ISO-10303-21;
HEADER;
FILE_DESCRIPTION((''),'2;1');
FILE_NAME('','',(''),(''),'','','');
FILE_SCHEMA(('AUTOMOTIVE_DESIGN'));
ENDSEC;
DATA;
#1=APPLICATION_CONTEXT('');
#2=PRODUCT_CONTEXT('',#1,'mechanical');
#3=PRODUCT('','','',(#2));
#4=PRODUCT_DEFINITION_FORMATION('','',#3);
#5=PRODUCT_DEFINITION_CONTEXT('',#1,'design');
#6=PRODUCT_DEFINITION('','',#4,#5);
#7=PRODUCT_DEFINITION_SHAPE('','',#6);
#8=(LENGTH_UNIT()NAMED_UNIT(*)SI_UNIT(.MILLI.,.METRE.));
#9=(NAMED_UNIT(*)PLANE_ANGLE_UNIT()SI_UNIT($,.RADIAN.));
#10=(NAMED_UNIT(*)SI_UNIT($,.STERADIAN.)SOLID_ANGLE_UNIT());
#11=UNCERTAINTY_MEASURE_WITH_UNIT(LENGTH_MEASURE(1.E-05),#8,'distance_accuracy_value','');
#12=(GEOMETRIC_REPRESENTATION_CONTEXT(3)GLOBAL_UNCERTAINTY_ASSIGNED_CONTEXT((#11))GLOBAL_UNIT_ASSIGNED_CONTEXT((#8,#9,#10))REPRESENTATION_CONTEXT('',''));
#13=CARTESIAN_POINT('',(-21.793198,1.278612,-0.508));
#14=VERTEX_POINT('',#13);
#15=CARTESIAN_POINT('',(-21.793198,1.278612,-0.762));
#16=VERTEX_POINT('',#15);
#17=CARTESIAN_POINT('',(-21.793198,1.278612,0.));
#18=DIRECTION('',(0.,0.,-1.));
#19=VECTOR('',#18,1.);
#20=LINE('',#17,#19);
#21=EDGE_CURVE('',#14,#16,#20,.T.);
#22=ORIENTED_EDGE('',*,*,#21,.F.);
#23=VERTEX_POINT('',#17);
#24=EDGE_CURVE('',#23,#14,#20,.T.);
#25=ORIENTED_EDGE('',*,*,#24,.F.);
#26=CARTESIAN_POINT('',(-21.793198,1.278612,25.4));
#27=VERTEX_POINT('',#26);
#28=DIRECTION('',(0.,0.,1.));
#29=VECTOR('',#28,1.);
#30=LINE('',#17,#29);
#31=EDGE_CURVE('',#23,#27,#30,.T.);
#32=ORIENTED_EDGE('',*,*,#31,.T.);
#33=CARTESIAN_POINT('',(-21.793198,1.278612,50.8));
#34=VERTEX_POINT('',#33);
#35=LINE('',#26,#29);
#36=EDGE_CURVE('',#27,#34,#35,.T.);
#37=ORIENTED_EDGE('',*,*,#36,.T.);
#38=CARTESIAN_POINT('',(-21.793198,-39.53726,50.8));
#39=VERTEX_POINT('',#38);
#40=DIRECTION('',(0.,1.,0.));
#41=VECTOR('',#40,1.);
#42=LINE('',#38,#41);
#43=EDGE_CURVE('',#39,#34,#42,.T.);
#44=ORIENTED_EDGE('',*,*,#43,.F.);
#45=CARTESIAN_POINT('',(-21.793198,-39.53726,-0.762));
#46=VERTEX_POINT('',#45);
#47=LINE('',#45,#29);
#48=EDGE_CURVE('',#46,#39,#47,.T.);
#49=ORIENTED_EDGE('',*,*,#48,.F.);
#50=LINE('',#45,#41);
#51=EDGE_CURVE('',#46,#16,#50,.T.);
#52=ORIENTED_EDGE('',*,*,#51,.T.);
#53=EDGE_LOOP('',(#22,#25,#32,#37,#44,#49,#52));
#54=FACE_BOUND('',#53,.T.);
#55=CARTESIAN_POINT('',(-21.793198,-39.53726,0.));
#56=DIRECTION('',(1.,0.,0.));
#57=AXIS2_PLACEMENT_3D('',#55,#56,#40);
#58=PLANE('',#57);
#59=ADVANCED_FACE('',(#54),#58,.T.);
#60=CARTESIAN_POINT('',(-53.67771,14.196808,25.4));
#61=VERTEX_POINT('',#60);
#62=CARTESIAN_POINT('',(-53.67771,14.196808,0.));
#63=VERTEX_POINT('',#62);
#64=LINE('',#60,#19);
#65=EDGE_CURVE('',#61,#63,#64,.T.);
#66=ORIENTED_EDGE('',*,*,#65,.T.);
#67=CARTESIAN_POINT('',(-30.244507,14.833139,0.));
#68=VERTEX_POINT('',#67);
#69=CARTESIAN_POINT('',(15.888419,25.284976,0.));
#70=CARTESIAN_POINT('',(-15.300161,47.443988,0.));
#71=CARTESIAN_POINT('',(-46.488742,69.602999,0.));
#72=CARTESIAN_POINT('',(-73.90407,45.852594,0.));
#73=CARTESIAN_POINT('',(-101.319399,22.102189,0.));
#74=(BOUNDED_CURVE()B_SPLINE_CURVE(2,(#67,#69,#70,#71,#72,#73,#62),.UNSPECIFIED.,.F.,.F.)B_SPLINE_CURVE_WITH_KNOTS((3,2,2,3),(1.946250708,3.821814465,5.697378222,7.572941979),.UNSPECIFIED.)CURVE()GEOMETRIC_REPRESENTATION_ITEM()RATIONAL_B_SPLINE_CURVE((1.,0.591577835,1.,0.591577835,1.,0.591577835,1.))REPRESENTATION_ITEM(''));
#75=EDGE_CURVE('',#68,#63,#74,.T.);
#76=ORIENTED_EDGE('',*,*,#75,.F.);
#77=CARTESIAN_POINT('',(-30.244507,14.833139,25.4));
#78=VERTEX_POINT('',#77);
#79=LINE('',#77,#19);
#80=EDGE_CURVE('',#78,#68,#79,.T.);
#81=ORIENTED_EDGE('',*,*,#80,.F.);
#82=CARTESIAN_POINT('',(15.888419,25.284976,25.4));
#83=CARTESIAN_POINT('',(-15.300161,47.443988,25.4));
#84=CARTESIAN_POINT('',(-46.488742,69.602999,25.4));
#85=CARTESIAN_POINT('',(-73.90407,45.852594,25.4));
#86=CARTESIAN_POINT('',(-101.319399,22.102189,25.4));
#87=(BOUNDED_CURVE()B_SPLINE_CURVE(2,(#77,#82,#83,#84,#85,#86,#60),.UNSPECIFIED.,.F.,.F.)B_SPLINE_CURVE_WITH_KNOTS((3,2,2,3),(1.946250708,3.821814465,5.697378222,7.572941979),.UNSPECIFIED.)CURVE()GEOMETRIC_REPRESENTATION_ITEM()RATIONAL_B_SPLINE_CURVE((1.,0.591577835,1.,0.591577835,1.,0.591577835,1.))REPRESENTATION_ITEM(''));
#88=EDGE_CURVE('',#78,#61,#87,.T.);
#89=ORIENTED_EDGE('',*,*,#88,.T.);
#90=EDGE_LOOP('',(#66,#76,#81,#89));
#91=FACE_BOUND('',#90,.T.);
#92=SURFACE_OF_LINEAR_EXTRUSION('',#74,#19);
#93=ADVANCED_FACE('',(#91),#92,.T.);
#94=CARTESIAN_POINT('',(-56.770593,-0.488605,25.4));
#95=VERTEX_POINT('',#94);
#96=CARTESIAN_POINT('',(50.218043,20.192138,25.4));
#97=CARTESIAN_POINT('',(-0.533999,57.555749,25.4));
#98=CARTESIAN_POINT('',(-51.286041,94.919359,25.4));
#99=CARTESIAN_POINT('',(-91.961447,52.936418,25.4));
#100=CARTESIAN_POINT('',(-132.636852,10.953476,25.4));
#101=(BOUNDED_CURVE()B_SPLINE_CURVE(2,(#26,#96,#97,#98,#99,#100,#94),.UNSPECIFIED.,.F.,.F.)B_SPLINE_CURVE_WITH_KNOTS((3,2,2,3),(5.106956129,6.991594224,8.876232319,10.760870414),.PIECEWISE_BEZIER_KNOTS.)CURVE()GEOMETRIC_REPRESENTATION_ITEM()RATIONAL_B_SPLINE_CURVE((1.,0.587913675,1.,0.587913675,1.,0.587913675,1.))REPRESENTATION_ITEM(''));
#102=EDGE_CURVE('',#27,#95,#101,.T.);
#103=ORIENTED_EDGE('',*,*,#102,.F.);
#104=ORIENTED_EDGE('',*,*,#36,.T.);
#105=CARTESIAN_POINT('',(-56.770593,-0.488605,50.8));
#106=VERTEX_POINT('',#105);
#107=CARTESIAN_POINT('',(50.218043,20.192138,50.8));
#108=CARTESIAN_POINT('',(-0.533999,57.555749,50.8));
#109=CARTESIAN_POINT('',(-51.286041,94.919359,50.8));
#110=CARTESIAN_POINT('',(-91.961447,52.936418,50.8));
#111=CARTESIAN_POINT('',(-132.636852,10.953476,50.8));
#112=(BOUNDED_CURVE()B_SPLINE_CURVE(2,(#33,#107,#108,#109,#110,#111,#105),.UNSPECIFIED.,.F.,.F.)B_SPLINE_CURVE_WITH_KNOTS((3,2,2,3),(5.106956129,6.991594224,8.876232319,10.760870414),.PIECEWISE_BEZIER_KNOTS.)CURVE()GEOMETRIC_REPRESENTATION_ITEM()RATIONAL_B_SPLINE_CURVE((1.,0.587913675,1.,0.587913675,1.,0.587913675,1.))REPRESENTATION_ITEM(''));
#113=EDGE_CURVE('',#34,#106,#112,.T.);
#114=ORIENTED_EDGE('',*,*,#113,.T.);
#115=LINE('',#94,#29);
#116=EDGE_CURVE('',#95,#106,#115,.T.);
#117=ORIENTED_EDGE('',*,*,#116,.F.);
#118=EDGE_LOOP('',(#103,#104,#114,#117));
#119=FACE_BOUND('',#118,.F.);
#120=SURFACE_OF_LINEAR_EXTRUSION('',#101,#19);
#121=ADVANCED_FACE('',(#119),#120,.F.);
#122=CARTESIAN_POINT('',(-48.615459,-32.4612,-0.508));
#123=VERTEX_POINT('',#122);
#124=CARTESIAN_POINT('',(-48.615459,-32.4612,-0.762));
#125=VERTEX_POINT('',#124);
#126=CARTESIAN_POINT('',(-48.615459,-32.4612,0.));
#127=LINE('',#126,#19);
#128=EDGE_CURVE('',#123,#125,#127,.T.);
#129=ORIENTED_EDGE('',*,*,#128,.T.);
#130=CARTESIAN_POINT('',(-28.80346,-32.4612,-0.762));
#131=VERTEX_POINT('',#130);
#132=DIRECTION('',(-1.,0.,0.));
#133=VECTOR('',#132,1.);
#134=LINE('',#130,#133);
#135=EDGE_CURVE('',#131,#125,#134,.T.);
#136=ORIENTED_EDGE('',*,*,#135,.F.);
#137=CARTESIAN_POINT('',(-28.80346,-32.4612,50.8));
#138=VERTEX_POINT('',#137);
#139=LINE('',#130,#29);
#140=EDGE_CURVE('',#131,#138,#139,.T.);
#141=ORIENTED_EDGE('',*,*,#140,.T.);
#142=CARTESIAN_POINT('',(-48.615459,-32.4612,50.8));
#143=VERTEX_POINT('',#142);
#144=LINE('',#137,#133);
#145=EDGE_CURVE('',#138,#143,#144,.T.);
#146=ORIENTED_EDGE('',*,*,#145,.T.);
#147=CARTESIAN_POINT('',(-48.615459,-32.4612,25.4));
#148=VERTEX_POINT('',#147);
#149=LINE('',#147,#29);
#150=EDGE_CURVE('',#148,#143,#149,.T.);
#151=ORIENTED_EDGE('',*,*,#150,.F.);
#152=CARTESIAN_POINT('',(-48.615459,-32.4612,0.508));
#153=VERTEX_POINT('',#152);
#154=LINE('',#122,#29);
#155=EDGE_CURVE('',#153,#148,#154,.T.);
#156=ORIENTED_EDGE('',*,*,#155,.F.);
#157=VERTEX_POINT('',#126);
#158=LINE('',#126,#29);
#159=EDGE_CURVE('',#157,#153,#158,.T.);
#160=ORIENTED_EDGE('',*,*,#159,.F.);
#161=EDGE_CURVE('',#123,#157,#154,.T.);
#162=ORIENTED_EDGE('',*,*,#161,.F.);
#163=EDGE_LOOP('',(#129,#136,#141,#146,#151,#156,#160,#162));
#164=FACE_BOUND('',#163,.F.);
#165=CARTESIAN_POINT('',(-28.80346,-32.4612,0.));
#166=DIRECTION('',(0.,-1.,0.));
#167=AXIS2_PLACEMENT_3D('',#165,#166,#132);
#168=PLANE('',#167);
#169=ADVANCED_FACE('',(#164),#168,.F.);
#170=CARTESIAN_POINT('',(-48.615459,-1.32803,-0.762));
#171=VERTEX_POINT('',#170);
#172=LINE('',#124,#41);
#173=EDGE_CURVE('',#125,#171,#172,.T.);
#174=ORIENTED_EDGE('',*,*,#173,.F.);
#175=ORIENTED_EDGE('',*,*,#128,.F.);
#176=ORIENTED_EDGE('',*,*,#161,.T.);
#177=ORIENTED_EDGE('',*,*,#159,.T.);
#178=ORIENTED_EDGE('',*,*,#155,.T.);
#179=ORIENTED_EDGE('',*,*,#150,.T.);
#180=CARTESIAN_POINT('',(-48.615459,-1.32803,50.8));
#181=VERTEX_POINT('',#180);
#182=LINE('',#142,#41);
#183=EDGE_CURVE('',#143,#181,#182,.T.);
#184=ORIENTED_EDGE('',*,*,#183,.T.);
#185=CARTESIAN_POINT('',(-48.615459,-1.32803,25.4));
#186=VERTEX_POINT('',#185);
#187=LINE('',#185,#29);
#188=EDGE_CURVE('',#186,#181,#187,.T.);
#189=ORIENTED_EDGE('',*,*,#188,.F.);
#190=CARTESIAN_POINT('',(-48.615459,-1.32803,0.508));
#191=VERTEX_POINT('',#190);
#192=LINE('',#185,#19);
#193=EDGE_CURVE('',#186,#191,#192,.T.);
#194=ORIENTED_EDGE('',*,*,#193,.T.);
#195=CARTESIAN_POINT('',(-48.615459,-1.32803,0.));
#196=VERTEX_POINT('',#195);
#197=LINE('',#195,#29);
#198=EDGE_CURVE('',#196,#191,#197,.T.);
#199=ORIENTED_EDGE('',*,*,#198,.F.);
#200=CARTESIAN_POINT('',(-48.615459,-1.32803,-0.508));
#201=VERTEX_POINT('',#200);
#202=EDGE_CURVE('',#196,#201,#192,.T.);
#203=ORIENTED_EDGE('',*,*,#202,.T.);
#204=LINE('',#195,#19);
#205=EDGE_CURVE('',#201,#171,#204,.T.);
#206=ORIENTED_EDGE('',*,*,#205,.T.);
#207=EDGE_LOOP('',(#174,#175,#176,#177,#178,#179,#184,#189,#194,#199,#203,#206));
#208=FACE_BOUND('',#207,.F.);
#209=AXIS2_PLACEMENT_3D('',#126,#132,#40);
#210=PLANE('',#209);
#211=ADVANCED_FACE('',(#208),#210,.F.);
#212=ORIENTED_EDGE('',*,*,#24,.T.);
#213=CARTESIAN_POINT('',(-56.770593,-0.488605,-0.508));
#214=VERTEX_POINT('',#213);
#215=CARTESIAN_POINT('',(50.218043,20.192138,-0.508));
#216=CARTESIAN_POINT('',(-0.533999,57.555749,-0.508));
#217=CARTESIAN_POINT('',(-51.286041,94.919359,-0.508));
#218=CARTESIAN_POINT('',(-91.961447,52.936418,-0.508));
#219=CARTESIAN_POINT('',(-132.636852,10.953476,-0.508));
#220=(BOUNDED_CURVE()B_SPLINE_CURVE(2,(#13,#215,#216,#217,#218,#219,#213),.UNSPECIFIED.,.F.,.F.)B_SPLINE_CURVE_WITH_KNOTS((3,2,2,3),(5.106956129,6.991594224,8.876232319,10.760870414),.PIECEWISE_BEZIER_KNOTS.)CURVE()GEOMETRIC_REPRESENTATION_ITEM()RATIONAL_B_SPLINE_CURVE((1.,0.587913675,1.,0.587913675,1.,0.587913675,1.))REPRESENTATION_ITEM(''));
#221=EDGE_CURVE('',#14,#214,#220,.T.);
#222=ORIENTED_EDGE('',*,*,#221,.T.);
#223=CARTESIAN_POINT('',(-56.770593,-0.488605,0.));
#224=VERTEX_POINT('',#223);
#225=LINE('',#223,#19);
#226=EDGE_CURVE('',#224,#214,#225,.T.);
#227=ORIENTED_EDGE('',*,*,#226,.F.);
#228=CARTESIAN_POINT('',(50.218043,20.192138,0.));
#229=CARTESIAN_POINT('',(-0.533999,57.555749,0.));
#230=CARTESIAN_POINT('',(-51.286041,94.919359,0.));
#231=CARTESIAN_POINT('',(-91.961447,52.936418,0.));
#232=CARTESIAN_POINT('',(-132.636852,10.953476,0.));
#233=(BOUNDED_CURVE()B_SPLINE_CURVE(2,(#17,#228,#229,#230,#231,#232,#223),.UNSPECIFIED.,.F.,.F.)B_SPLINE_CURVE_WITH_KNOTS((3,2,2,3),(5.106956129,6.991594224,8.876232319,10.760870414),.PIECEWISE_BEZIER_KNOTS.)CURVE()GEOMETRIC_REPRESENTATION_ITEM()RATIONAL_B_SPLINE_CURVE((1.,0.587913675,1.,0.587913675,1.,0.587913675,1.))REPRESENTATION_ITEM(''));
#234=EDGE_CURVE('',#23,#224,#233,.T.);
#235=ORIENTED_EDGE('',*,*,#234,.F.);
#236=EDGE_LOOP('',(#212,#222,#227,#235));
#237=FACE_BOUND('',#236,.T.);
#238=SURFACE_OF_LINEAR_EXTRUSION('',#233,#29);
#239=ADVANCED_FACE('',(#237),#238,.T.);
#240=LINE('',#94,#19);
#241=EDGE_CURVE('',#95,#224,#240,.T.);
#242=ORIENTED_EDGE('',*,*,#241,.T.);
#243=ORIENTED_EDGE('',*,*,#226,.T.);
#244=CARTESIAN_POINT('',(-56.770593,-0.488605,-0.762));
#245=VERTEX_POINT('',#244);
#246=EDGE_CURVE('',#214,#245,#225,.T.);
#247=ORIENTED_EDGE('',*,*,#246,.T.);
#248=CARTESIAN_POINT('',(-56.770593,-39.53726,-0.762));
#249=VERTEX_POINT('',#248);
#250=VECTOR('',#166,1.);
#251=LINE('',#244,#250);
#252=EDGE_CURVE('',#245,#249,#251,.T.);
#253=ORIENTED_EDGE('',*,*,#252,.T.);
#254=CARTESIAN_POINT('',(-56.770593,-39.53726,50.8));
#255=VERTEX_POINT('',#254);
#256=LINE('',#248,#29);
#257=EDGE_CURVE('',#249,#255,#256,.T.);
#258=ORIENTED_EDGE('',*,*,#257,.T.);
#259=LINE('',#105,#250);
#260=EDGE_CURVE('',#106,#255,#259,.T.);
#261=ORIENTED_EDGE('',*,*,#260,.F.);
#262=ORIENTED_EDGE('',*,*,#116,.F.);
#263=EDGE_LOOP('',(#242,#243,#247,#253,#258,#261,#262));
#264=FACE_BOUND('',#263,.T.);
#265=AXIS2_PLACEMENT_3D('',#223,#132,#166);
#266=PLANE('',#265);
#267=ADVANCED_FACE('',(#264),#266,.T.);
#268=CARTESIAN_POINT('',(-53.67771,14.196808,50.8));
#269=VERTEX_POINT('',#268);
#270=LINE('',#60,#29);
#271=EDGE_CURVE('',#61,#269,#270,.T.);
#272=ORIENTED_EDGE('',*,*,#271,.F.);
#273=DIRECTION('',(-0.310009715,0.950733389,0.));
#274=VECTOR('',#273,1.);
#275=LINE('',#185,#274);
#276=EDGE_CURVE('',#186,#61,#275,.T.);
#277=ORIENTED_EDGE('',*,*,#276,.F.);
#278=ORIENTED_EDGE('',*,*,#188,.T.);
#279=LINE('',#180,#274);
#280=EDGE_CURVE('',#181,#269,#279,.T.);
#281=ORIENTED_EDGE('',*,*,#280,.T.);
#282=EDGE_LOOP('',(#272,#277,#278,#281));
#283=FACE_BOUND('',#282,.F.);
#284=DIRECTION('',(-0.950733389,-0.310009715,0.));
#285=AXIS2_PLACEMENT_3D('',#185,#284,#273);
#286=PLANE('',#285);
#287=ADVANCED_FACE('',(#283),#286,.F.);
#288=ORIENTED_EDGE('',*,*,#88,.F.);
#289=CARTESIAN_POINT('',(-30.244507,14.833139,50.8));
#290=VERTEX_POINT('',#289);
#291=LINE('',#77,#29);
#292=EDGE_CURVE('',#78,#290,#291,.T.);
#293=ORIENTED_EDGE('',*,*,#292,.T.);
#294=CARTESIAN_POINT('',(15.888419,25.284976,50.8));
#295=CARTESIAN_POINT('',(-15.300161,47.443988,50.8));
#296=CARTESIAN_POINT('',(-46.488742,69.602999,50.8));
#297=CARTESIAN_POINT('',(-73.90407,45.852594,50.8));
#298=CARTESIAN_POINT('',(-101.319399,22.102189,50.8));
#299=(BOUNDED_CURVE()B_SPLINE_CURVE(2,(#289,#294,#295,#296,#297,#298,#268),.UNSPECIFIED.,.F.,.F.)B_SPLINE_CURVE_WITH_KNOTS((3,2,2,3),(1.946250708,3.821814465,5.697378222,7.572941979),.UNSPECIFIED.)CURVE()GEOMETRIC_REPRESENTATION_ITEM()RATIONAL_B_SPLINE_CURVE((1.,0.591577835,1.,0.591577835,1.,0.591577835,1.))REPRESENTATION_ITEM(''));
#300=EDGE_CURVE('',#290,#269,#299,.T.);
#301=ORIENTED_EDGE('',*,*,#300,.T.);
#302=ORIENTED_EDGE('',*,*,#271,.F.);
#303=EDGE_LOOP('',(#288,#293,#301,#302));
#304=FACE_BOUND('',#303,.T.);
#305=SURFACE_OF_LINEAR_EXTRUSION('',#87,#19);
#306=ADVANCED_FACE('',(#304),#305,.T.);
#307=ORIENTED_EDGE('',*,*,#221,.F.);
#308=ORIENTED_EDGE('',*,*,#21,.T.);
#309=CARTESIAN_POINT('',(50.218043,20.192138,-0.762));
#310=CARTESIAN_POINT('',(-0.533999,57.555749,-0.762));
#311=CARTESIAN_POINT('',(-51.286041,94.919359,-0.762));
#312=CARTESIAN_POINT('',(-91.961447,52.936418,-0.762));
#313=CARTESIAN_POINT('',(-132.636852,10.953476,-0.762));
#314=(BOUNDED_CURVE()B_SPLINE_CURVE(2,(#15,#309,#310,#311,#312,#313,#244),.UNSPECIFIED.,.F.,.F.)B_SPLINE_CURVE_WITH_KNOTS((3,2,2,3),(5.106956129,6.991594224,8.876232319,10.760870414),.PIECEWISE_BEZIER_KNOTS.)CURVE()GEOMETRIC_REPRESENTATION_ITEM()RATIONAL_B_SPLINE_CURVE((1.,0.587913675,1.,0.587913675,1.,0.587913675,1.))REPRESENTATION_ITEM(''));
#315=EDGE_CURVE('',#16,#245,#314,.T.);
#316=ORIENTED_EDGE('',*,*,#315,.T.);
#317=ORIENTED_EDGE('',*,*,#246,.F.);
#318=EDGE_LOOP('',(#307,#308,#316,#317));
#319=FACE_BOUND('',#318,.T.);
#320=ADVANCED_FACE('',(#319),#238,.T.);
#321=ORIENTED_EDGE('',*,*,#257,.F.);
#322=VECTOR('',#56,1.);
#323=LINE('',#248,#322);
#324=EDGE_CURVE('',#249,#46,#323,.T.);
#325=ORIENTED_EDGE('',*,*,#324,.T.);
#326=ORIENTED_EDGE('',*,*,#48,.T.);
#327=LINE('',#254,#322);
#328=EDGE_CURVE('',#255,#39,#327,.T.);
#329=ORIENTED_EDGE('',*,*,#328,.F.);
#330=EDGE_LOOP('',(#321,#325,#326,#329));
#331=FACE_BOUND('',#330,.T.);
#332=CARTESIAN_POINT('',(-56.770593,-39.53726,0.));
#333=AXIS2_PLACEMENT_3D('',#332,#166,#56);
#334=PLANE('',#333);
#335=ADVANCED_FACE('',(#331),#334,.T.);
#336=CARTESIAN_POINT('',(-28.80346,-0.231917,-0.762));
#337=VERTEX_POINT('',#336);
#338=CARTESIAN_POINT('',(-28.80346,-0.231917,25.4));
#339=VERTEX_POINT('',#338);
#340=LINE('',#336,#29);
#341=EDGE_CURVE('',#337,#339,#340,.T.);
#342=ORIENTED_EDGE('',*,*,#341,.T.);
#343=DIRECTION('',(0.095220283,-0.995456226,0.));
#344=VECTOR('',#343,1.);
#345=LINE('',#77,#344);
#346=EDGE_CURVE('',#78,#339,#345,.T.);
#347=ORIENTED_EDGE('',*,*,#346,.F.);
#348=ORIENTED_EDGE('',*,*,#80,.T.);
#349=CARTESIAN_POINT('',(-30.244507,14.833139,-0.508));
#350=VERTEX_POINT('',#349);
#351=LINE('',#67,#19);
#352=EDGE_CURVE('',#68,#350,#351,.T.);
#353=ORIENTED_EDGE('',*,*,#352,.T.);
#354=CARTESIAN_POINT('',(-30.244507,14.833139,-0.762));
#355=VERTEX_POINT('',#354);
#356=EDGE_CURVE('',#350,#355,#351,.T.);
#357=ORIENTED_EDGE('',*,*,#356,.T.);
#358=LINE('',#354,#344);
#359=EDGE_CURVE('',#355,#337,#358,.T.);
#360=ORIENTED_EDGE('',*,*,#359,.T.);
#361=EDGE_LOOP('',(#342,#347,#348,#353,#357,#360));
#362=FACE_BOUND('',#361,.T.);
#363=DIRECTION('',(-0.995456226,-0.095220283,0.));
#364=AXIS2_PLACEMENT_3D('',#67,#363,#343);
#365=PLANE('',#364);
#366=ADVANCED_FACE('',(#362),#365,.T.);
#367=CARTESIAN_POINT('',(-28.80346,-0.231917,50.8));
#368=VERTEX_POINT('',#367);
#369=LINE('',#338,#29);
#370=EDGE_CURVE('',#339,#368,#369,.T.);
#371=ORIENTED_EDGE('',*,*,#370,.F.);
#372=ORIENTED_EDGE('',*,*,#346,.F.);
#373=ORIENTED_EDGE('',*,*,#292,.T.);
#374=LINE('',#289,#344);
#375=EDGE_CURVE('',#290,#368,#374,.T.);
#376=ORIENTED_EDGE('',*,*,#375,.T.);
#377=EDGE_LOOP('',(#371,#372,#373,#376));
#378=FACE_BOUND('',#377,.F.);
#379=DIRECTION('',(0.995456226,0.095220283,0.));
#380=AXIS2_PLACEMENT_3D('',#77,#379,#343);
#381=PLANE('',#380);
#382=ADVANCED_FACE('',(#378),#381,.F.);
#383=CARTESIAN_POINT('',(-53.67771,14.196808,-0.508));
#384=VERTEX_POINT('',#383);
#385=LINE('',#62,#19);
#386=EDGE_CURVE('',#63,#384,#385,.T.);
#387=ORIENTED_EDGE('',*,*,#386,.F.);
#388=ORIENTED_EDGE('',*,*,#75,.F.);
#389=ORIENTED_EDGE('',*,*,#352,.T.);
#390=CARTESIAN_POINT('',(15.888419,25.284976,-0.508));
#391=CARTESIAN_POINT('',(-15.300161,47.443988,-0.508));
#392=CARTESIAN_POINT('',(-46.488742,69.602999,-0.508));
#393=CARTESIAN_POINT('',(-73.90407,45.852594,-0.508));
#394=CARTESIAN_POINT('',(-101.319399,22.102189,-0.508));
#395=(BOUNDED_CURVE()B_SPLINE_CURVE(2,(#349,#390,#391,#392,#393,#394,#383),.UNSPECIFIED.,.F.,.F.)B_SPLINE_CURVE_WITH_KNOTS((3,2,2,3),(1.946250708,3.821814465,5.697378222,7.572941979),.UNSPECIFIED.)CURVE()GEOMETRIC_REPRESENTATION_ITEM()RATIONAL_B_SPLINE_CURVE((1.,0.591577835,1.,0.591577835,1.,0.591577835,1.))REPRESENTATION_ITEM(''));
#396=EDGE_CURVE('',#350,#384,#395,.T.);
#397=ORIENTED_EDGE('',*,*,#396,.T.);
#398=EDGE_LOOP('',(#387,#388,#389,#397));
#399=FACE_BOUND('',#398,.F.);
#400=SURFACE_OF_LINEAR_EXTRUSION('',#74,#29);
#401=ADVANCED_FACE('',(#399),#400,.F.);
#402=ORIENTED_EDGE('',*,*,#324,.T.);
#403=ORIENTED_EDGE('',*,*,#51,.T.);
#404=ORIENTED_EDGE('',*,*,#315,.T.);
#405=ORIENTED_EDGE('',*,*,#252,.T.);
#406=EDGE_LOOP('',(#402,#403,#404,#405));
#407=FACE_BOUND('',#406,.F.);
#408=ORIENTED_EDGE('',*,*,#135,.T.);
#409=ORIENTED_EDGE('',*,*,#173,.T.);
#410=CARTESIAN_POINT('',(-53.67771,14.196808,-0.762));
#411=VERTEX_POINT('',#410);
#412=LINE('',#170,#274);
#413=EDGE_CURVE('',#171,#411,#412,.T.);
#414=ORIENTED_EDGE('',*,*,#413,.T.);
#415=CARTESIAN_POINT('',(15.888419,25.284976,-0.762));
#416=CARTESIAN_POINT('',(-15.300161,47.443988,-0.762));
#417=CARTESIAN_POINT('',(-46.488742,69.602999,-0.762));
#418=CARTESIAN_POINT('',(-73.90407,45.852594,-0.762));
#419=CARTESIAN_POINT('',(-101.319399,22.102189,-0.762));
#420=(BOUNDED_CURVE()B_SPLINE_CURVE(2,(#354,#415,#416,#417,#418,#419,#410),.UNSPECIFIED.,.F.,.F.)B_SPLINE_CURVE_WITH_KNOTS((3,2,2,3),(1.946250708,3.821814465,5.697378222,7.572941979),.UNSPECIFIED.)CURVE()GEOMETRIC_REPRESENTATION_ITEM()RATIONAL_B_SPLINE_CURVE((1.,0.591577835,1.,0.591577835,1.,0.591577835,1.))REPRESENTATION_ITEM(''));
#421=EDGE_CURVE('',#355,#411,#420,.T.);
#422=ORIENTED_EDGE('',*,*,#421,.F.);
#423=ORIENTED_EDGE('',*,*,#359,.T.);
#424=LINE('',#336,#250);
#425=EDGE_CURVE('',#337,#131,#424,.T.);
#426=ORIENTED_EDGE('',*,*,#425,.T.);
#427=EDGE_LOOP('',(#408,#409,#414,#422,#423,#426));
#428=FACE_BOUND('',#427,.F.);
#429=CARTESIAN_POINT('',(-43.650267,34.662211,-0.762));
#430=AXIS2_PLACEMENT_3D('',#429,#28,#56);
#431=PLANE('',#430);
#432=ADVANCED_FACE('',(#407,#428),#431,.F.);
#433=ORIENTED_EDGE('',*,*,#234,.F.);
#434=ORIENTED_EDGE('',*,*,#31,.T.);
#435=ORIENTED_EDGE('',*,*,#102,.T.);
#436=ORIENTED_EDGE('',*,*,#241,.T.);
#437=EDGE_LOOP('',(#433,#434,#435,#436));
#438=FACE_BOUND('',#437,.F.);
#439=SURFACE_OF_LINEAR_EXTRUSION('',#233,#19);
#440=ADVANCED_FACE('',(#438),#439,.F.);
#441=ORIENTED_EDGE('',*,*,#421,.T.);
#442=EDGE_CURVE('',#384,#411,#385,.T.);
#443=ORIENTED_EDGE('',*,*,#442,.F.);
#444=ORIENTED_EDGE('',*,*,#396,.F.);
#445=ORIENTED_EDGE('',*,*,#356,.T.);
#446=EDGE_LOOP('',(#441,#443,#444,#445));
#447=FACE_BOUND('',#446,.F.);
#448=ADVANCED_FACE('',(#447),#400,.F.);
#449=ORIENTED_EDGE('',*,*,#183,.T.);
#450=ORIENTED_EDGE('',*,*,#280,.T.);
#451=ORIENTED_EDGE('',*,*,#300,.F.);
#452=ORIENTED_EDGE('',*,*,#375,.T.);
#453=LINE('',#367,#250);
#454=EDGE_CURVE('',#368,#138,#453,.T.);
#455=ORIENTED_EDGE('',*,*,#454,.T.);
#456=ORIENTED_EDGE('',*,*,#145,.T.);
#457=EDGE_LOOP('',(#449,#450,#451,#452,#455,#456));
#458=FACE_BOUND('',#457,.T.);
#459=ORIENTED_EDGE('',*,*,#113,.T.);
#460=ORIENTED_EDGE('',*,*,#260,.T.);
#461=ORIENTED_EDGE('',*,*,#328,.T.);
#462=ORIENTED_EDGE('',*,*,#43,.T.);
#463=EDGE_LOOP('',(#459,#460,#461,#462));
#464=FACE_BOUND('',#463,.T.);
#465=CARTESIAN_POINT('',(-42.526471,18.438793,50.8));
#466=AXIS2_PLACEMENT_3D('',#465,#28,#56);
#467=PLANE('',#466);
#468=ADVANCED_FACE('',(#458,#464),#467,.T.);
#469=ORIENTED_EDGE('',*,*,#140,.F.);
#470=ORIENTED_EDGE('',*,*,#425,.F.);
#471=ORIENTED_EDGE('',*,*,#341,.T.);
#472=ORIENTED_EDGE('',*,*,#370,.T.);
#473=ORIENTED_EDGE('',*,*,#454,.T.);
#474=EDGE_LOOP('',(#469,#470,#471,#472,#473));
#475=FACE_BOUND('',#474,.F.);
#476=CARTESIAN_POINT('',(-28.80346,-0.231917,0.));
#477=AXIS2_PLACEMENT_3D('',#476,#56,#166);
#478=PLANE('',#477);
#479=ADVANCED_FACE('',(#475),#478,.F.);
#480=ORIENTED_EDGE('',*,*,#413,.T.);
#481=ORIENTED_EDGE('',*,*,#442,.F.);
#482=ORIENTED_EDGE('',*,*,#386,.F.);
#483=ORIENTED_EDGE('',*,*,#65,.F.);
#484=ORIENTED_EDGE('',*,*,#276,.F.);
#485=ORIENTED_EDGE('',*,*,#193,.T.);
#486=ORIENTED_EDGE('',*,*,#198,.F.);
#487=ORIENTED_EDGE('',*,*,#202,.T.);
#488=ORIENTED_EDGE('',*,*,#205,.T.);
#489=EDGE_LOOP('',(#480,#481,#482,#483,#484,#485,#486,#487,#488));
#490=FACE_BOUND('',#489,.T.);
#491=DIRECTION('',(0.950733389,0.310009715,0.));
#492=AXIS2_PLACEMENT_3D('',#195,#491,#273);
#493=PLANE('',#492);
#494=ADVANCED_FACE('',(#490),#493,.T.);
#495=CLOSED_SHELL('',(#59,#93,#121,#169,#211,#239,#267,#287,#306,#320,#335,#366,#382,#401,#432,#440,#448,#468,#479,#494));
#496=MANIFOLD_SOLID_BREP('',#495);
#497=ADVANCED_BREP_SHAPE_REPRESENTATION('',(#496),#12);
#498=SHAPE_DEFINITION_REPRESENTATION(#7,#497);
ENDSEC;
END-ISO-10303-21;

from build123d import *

# Parameters (mm, degrees)
F1_DEPTH = 25.4
F2_DEPTH = 25.4
F3_DEPTH = 25.4
F4_DEPTH = 25.4
F5_DEPTH = 0.508
F6_DEPTH = 0.508
F7_DEPTH = 0.762


with BuildPart() as f1:
    # F0 (on Top) → F1 (new body)
    with BuildSketch(Plane.XY):
        with BuildLine():
            Line((-30.2445069715, 14.8331388677), (-28.8034603, -0.2319170528))
            add(Edge.make_bspline(
                [(-28.8034603, -0.2319170528), (-25.2199291946, 0.378591868), (-21.7931978405, 1.2786120788)],
                knots=[4.9761933051, 4.9761933051, 4.9761933051, 5.1069561294, 5.1069561294, 5.1069561294], degree=2, weights=[1, 0.9978633968, 1]))
            add(Edge.make_bspline(
                [(-21.7931978405, 1.2786120788), (50.218043381, 20.1921380605), (-0.533998699, 57.555748767), (-51.286040779, 94.9193594735), (-91.961446539, 52.9364177725), (-132.6368522989, 10.9534760715), (-56.7705927415, -0.4886051868)],
                knots=[5.1069561294, 5.1069561294, 5.1069561294, 6.9915942242, 6.9915942242, 8.876232319, 8.876232319, 10.7608704138, 10.7608704138, 10.7608704138], degree=2, weights=[1, 0.5879136753, 1, 0.5879136753, 1, 0.5879136753, 1]))
            add(Edge.make_bspline(
                [(-56.7705927415, -0.4886051868), (-52.7416478226, -1.0962470479), (-48.6154593527, -1.3280297036)],
                knots=[4.4776851066, 4.4776851066, 4.4776851066, 4.6235650197, 4.6235650197, 4.6235650197], degree=2, weights=[1, 0.9973410605, 1]))
            Line((-48.6154593527, -1.3280297036), (-53.6777099396, 14.1968084661))
            add(Edge.make_bspline(
                [(-30.2445069715, 14.8331388677), (15.888419149, 25.2849758906), (-15.3001612609, 47.4439876299), (-46.4887416708, 69.6029993692), (-73.9040701092, 45.8525940461), (-101.3193985477, 22.102188723), (-53.6777099396, 14.1968084661)],
                knots=[1.9462507079, 1.9462507079, 1.9462507079, 3.821814465, 3.821814465, 5.697378222, 5.697378222, 7.5729419791, 7.5729419791, 7.5729419791], degree=2, weights=[1, 0.5915778346, 1, 0.5915778346, 1, 0.5915778346, 1]))
        make_face()
        with BuildLine():
            add(Edge.make_bspline(
                [(-28.8034603, -0.2319170528), (-25.2199291946, 0.378591868), (-21.7931978405, 1.2786120788)],
                knots=[4.9761933051, 4.9761933051, 4.9761933051, 5.1069561294, 5.1069561294, 5.1069561294], degree=2, weights=[1, 0.9978633968, 1]))
            Line((-28.8034603, -0.2319170528), (-28.8034603, -32.4611999094))
            Line((-28.8034603, -32.4611999094), (-48.6154593527, -32.4611999094))
            Line((-48.6154593527, -32.4611999094), (-48.6154593527, -1.3280297036))
            add(Edge.make_bspline(
                [(-56.7705927415, -0.4886051868), (-52.7416478226, -1.0962470479), (-48.6154593527, -1.3280297036)],
                knots=[4.4776851066, 4.4776851066, 4.4776851066, 4.6235650197, 4.6235650197, 4.6235650197], degree=2, weights=[1, 0.9973410605, 1]))
            Line((-56.7705927415, -0.4886051868), (-56.7705927415, -39.5372596303))
            Line((-56.7705927415, -39.5372596303), (-21.7931978405, -39.5372596303))
            Line((-21.7931978405, -39.5372596303), (-21.7931978405, 1.2786120788))
        make_face()
    extrude(amount=F1_DEPTH)

    # F0 (on Top) → F2 (join)
    with BuildSketch(Plane.XY):
        with BuildLine():
            Line((-30.2445069715, 14.8331388677), (-28.8034603, -0.2319170528))
            add(Edge.make_bspline(
                [(-28.8034603, -0.2319170528), (-25.2199291946, 0.378591868), (-21.7931978405, 1.2786120788)],
                knots=[4.9761933051, 4.9761933051, 4.9761933051, 5.1069561294, 5.1069561294, 5.1069561294], degree=2, weights=[1, 0.9978633968, 1]))
            add(Edge.make_bspline(
                [(-21.7931978405, 1.2786120788), (50.218043381, 20.1921380605), (-0.533998699, 57.555748767), (-51.286040779, 94.9193594735), (-91.961446539, 52.9364177725), (-132.6368522989, 10.9534760715), (-56.7705927415, -0.4886051868)],
                knots=[5.1069561294, 5.1069561294, 5.1069561294, 6.9915942242, 6.9915942242, 8.876232319, 8.876232319, 10.7608704138, 10.7608704138, 10.7608704138], degree=2, weights=[1, 0.5879136753, 1, 0.5879136753, 1, 0.5879136753, 1]))
            add(Edge.make_bspline(
                [(-56.7705927415, -0.4886051868), (-52.7416478226, -1.0962470479), (-48.6154593527, -1.3280297036)],
                knots=[4.4776851066, 4.4776851066, 4.4776851066, 4.6235650197, 4.6235650197, 4.6235650197], degree=2, weights=[1, 0.9973410605, 1]))
            Line((-48.6154593527, -1.3280297036), (-53.6777099396, 14.1968084661))
            add(Edge.make_bspline(
                [(-30.2445069715, 14.8331388677), (15.888419149, 25.2849758906), (-15.3001612609, 47.4439876299), (-46.4887416708, 69.6029993692), (-73.9040701092, 45.8525940461), (-101.3193985477, 22.102188723), (-53.6777099396, 14.1968084661)],
                knots=[1.9462507079, 1.9462507079, 1.9462507079, 3.821814465, 3.821814465, 5.697378222, 5.697378222, 7.5729419791, 7.5729419791, 7.5729419791], degree=2, weights=[1, 0.5915778346, 1, 0.5915778346, 1, 0.5915778346, 1]))
        make_face()
        with BuildLine():
            add(Edge.make_bspline(
                [(-28.8034603, -0.2319170528), (-25.2199291946, 0.378591868), (-21.7931978405, 1.2786120788)],
                knots=[4.9761933051, 4.9761933051, 4.9761933051, 5.1069561294, 5.1069561294, 5.1069561294], degree=2, weights=[1, 0.9978633968, 1]))
            Line((-28.8034603, -0.2319170528), (-28.8034603, -32.4611999094))
            Line((-28.8034603, -32.4611999094), (-48.6154593527, -32.4611999094))
            Line((-48.6154593527, -32.4611999094), (-48.6154593527, -1.3280297036))
            add(Edge.make_bspline(
                [(-56.7705927415, -0.4886051868), (-52.7416478226, -1.0962470479), (-48.6154593527, -1.3280297036)],
                knots=[4.4776851066, 4.4776851066, 4.4776851066, 4.6235650197, 4.6235650197, 4.6235650197], degree=2, weights=[1, 0.9973410605, 1]))
            Line((-56.7705927415, -0.4886051868), (-56.7705927415, -39.5372596303))
            Line((-56.7705927415, -39.5372596303), (-21.7931978405, -39.5372596303))
            Line((-21.7931978405, -39.5372596303), (-21.7931978405, 1.2786120788))
        make_face()
    extrude(amount=F2_DEPTH)

    # F0 (on Top) + F1_face (on face) → F3 (join)
    with BuildSketch(Plane.XY):
        with BuildLine():
            Line((-30.2445069715, 14.8331388677), (-28.8034603, -0.2319170528))
            add(Edge.make_bspline(
                [(-28.8034603, -0.2319170528), (-25.2199291946, 0.378591868), (-21.7931978405, 1.2786120788)],
                knots=[4.9761933051, 4.9761933051, 4.9761933051, 5.1069561294, 5.1069561294, 5.1069561294], degree=2, weights=[1, 0.9978633968, 1]))
            add(Edge.make_bspline(
                [(-21.7931978405, 1.2786120788), (50.218043381, 20.1921380605), (-0.533998699, 57.555748767), (-51.286040779, 94.9193594735), (-91.961446539, 52.9364177725), (-132.6368522989, 10.9534760715), (-56.7705927415, -0.4886051868)],
                knots=[5.1069561294, 5.1069561294, 5.1069561294, 6.9915942242, 6.9915942242, 8.876232319, 8.876232319, 10.7608704138, 10.7608704138, 10.7608704138], degree=2, weights=[1, 0.5879136753, 1, 0.5879136753, 1, 0.5879136753, 1]))
            add(Edge.make_bspline(
                [(-56.7705927415, -0.4886051868), (-52.7416478226, -1.0962470479), (-48.6154593527, -1.3280297036)],
                knots=[4.4776851066, 4.4776851066, 4.4776851066, 4.6235650197, 4.6235650197, 4.6235650197], degree=2, weights=[1, 0.9973410605, 1]))
            Line((-48.6154593527, -1.3280297036), (-53.6777099396, 14.1968084661))
            add(Edge.make_bspline(
                [(-30.2445069715, 14.8331388677), (15.888419149, 25.2849758906), (-15.3001612609, 47.4439876299), (-46.4887416708, 69.6029993692), (-73.9040701092, 45.8525940461), (-101.3193985477, 22.102188723), (-53.6777099396, 14.1968084661)],
                knots=[1.9462507079, 1.9462507079, 1.9462507079, 3.821814465, 3.821814465, 5.697378222, 5.697378222, 7.5729419791, 7.5729419791, 7.5729419791], degree=2, weights=[1, 0.5915778346, 1, 0.5915778346, 1, 0.5915778346, 1]))
        make_face()
        with BuildLine():
            add(Edge.make_bspline(
                [(-28.8034603, -0.2319170528), (-25.2199291946, 0.378591868), (-21.7931978405, 1.2786120788)],
                knots=[4.9761933051, 4.9761933051, 4.9761933051, 5.1069561294, 5.1069561294, 5.1069561294], degree=2, weights=[1, 0.9978633968, 1]))
            Line((-28.8034603, -0.2319170528), (-28.8034603, -32.4611999094))
            Line((-28.8034603, -32.4611999094), (-48.6154593527, -32.4611999094))
            Line((-48.6154593527, -32.4611999094), (-48.6154593527, -1.3280297036))
            add(Edge.make_bspline(
                [(-56.7705927415, -0.4886051868), (-52.7416478226, -1.0962470479), (-48.6154593527, -1.3280297036)],
                knots=[4.4776851066, 4.4776851066, 4.4776851066, 4.6235650197, 4.6235650197, 4.6235650197], degree=2, weights=[1, 0.9973410605, 1]))
            Line((-56.7705927415, -0.4886051868), (-56.7705927415, -39.5372596303))
            Line((-56.7705927415, -39.5372596303), (-21.7931978405, -39.5372596303))
            Line((-21.7931978405, -39.5372596303), (-21.7931978405, 1.2786120788))
        make_face()
    with BuildSketch(Plane(origin=(-43.1579317706, 26.845185468, 25.4), x_dir=(1, 0, 0), z_dir=(0, 0, 1))):
        with BuildLine():
            add(Edge.make_bspline(
                [(21.3647339301, -25.5665733892), (93.3759751515, -6.6530474075), (42.6239330716, 30.710563299), (-8.1281090084, 68.0741740055), (-48.8035147684, 26.0912323045), (-89.4789205284, -15.8917093964), (-13.6126609709, -27.3337906548)],
                knots=[5.1069561294, 5.1069561294, 5.1069561294, 6.9915942242, 6.9915942242, 8.876232319, 8.876232319, 10.7608704138, 10.7608704138, 10.7608704138], degree=2, weights=[1, 0.5879136753, 1, 0.5879136753, 1, 0.5879136753, 1]))
            Line((-13.6126609709, -27.3337906548), (-13.6126609709, -66.3824450983))
            Line((-13.6126609709, -66.3824450983), (21.3647339301, -66.3824450983))
            Line((21.3647339301, -66.3824450983), (21.3647339301, -25.5665733892))
        make_face()
        with BuildLine():
            add(Edge.make_bspline(
                [(12.913424799, -12.0120466003), (59.0463509195, -1.5602095774), (27.8577705097, 20.5988021619), (-3.3308099002, 42.7578139013), (-30.7461383387, 19.0074085781), (-58.1614667771, -4.742996745), (-10.5197781691, -12.6483770018)],
                knots=[1.9462507079, 1.9462507079, 1.9462507079, 3.821814465, 3.821814465, 5.697378222, 5.697378222, 7.5729419791, 7.5729419791, 7.5729419791], degree=2, weights=[1, 0.5915778346, 1, 0.5915778346, 1, 0.5915778346, 1]))
            Line((12.913424799, -12.0120466003), (14.3544714706, -27.0771025208))
            Line((14.3544714706, -27.0771025208), (14.3544714706, -59.3063853774))
            Line((14.3544714706, -59.3063853774), (-5.4575275822, -59.3063853774))
            Line((-5.4575275822, -59.3063853774), (-5.4575275822, -28.1732151716))
            Line((-5.4575275822, -28.1732151716), (-10.5197781691, -12.6483770018))
        make_face(mode=Mode.SUBTRACT)
    extrude(amount=F3_DEPTH)

    # F0 (on Top) → F4 (join)
    with BuildSketch(Plane.XY):
        with BuildLine():
            Line((-30.2445069715, 14.8331388677), (-28.8034603, -0.2319170528))
            add(Edge.make_bspline(
                [(-28.8034603, -0.2319170528), (-25.2199291946, 0.378591868), (-21.7931978405, 1.2786120788)],
                knots=[4.9761933051, 4.9761933051, 4.9761933051, 5.1069561294, 5.1069561294, 5.1069561294], degree=2, weights=[1, 0.9978633968, 1]))
            add(Edge.make_bspline(
                [(-21.7931978405, 1.2786120788), (50.218043381, 20.1921380605), (-0.533998699, 57.555748767), (-51.286040779, 94.9193594735), (-91.961446539, 52.9364177725), (-132.6368522989, 10.9534760715), (-56.7705927415, -0.4886051868)],
                knots=[5.1069561294, 5.1069561294, 5.1069561294, 6.9915942242, 6.9915942242, 8.876232319, 8.876232319, 10.7608704138, 10.7608704138, 10.7608704138], degree=2, weights=[1, 0.5879136753, 1, 0.5879136753, 1, 0.5879136753, 1]))
            add(Edge.make_bspline(
                [(-56.7705927415, -0.4886051868), (-52.7416478226, -1.0962470479), (-48.6154593527, -1.3280297036)],
                knots=[4.4776851066, 4.4776851066, 4.4776851066, 4.6235650197, 4.6235650197, 4.6235650197], degree=2, weights=[1, 0.9973410605, 1]))
            Line((-48.6154593527, -1.3280297036), (-53.6777099396, 14.1968084661))
            add(Edge.make_bspline(
                [(-30.2445069715, 14.8331388677), (15.888419149, 25.2849758906), (-15.3001612609, 47.4439876299), (-46.4887416708, 69.6029993692), (-73.9040701092, 45.8525940461), (-101.3193985477, 22.102188723), (-53.6777099396, 14.1968084661)],
                knots=[1.9462507079, 1.9462507079, 1.9462507079, 3.821814465, 3.821814465, 5.697378222, 5.697378222, 7.5729419791, 7.5729419791, 7.5729419791], degree=2, weights=[1, 0.5915778346, 1, 0.5915778346, 1, 0.5915778346, 1]))
        make_face()
        with BuildLine():
            add(Edge.make_bspline(
                [(-28.8034603, -0.2319170528), (-25.2199291946, 0.378591868), (-21.7931978405, 1.2786120788)],
                knots=[4.9761933051, 4.9761933051, 4.9761933051, 5.1069561294, 5.1069561294, 5.1069561294], degree=2, weights=[1, 0.9978633968, 1]))
            Line((-28.8034603, -0.2319170528), (-28.8034603, -32.4611999094))
            Line((-28.8034603, -32.4611999094), (-48.6154593527, -32.4611999094))
            Line((-48.6154593527, -32.4611999094), (-48.6154593527, -1.3280297036))
            add(Edge.make_bspline(
                [(-56.7705927415, -0.4886051868), (-52.7416478226, -1.0962470479), (-48.6154593527, -1.3280297036)],
                knots=[4.4776851066, 4.4776851066, 4.4776851066, 4.6235650197, 4.6235650197, 4.6235650197], degree=2, weights=[1, 0.9973410605, 1]))
            Line((-56.7705927415, -0.4886051868), (-56.7705927415, -39.5372596303))
            Line((-56.7705927415, -39.5372596303), (-21.7931978405, -39.5372596303))
            Line((-21.7931978405, -39.5372596303), (-21.7931978405, 1.2786120788))
        make_face()
    extrude(amount=F4_DEPTH)

    # F0 (on Top) → F5 (join)
    with BuildSketch(Plane.XY):
        with BuildLine():
            Line((-30.2445069715, 14.8331388677), (-28.8034603, -0.2319170528))
            add(Edge.make_bspline(
                [(-28.8034603, -0.2319170528), (-25.2199291946, 0.378591868), (-21.7931978405, 1.2786120788)],
                knots=[4.9761933051, 4.9761933051, 4.9761933051, 5.1069561294, 5.1069561294, 5.1069561294], degree=2, weights=[1, 0.9978633968, 1]))
            add(Edge.make_bspline(
                [(-21.7931978405, 1.2786120788), (50.218043381, 20.1921380605), (-0.533998699, 57.555748767), (-51.286040779, 94.9193594735), (-91.961446539, 52.9364177725), (-132.6368522989, 10.9534760715), (-56.7705927415, -0.4886051868)],
                knots=[5.1069561294, 5.1069561294, 5.1069561294, 6.9915942242, 6.9915942242, 8.876232319, 8.876232319, 10.7608704138, 10.7608704138, 10.7608704138], degree=2, weights=[1, 0.5879136753, 1, 0.5879136753, 1, 0.5879136753, 1]))
            add(Edge.make_bspline(
                [(-56.7705927415, -0.4886051868), (-52.7416478226, -1.0962470479), (-48.6154593527, -1.3280297036)],
                knots=[4.4776851066, 4.4776851066, 4.4776851066, 4.6235650197, 4.6235650197, 4.6235650197], degree=2, weights=[1, 0.9973410605, 1]))
            Line((-48.6154593527, -1.3280297036), (-53.6777099396, 14.1968084661))
            add(Edge.make_bspline(
                [(-30.2445069715, 14.8331388677), (15.888419149, 25.2849758906), (-15.3001612609, 47.4439876299), (-46.4887416708, 69.6029993692), (-73.9040701092, 45.8525940461), (-101.3193985477, 22.102188723), (-53.6777099396, 14.1968084661)],
                knots=[1.9462507079, 1.9462507079, 1.9462507079, 3.821814465, 3.821814465, 5.697378222, 5.697378222, 7.5729419791, 7.5729419791, 7.5729419791], degree=2, weights=[1, 0.5915778346, 1, 0.5915778346, 1, 0.5915778346, 1]))
        make_face()
        with BuildLine():
            add(Edge.make_bspline(
                [(-28.8034603, -0.2319170528), (-25.2199291946, 0.378591868), (-21.7931978405, 1.2786120788)],
                knots=[4.9761933051, 4.9761933051, 4.9761933051, 5.1069561294, 5.1069561294, 5.1069561294], degree=2, weights=[1, 0.9978633968, 1]))
            Line((-28.8034603, -0.2319170528), (-28.8034603, -32.4611999094))
            Line((-28.8034603, -32.4611999094), (-48.6154593527, -32.4611999094))
            Line((-48.6154593527, -32.4611999094), (-48.6154593527, -1.3280297036))
            add(Edge.make_bspline(
                [(-56.7705927415, -0.4886051868), (-52.7416478226, -1.0962470479), (-48.6154593527, -1.3280297036)],
                knots=[4.4776851066, 4.4776851066, 4.4776851066, 4.6235650197, 4.6235650197, 4.6235650197], degree=2, weights=[1, 0.9973410605, 1]))
            Line((-56.7705927415, -0.4886051868), (-56.7705927415, -39.5372596303))
            Line((-56.7705927415, -39.5372596303), (-21.7931978405, -39.5372596303))
            Line((-21.7931978405, -39.5372596303), (-21.7931978405, 1.2786120788))
        make_face()
    extrude(amount=-F5_DEPTH)

    # F0 (on Top) → F6 (join)
    with BuildSketch(Plane.XY):
        with BuildLine():
            Line((-30.2445069715, 14.8331388677), (-28.8034603, -0.2319170528))
            add(Edge.make_bspline(
                [(-28.8034603, -0.2319170528), (-25.2199291946, 0.378591868), (-21.7931978405, 1.2786120788)],
                knots=[4.9761933051, 4.9761933051, 4.9761933051, 5.1069561294, 5.1069561294, 5.1069561294], degree=2, weights=[1, 0.9978633968, 1]))
            add(Edge.make_bspline(
                [(-21.7931978405, 1.2786120788), (50.218043381, 20.1921380605), (-0.533998699, 57.555748767), (-51.286040779, 94.9193594735), (-91.961446539, 52.9364177725), (-132.6368522989, 10.9534760715), (-56.7705927415, -0.4886051868)],
                knots=[5.1069561294, 5.1069561294, 5.1069561294, 6.9915942242, 6.9915942242, 8.876232319, 8.876232319, 10.7608704138, 10.7608704138, 10.7608704138], degree=2, weights=[1, 0.5879136753, 1, 0.5879136753, 1, 0.5879136753, 1]))
            add(Edge.make_bspline(
                [(-56.7705927415, -0.4886051868), (-52.7416478226, -1.0962470479), (-48.6154593527, -1.3280297036)],
                knots=[4.4776851066, 4.4776851066, 4.4776851066, 4.6235650197, 4.6235650197, 4.6235650197], degree=2, weights=[1, 0.9973410605, 1]))
            Line((-48.6154593527, -1.3280297036), (-53.6777099396, 14.1968084661))
            add(Edge.make_bspline(
                [(-30.2445069715, 14.8331388677), (15.888419149, 25.2849758906), (-15.3001612609, 47.4439876299), (-46.4887416708, 69.6029993692), (-73.9040701092, 45.8525940461), (-101.3193985477, 22.102188723), (-53.6777099396, 14.1968084661)],
                knots=[1.9462507079, 1.9462507079, 1.9462507079, 3.821814465, 3.821814465, 5.697378222, 5.697378222, 7.5729419791, 7.5729419791, 7.5729419791], degree=2, weights=[1, 0.5915778346, 1, 0.5915778346, 1, 0.5915778346, 1]))
        make_face()
        with BuildLine():
            add(Edge.make_bspline(
                [(-28.8034603, -0.2319170528), (-25.2199291946, 0.378591868), (-21.7931978405, 1.2786120788)],
                knots=[4.9761933051, 4.9761933051, 4.9761933051, 5.1069561294, 5.1069561294, 5.1069561294], degree=2, weights=[1, 0.9978633968, 1]))
            Line((-28.8034603, -0.2319170528), (-28.8034603, -32.4611999094))
            Line((-28.8034603, -32.4611999094), (-48.6154593527, -32.4611999094))
            Line((-48.6154593527, -32.4611999094), (-48.6154593527, -1.3280297036))
            add(Edge.make_bspline(
                [(-56.7705927415, -0.4886051868), (-52.7416478226, -1.0962470479), (-48.6154593527, -1.3280297036)],
                knots=[4.4776851066, 4.4776851066, 4.4776851066, 4.6235650197, 4.6235650197, 4.6235650197], degree=2, weights=[1, 0.9973410605, 1]))
            Line((-56.7705927415, -0.4886051868), (-56.7705927415, -39.5372596303))
            Line((-56.7705927415, -39.5372596303), (-21.7931978405, -39.5372596303))
            Line((-21.7931978405, -39.5372596303), (-21.7931978405, 1.2786120788))
        make_face()
    extrude(amount=F6_DEPTH)

    # F0 (on Top) → F7 (join)
    with BuildSketch(Plane.XY):
        with BuildLine():
            Line((-30.2445069715, 14.8331388677), (-28.8034603, -0.2319170528))
            add(Edge.make_bspline(
                [(-28.8034603, -0.2319170528), (-25.2199291946, 0.378591868), (-21.7931978405, 1.2786120788)],
                knots=[4.9761933051, 4.9761933051, 4.9761933051, 5.1069561294, 5.1069561294, 5.1069561294], degree=2, weights=[1, 0.9978633968, 1]))
            add(Edge.make_bspline(
                [(-21.7931978405, 1.2786120788), (50.218043381, 20.1921380605), (-0.533998699, 57.555748767), (-51.286040779, 94.9193594735), (-91.961446539, 52.9364177725), (-132.6368522989, 10.9534760715), (-56.7705927415, -0.4886051868)],
                knots=[5.1069561294, 5.1069561294, 5.1069561294, 6.9915942242, 6.9915942242, 8.876232319, 8.876232319, 10.7608704138, 10.7608704138, 10.7608704138], degree=2, weights=[1, 0.5879136753, 1, 0.5879136753, 1, 0.5879136753, 1]))
            add(Edge.make_bspline(
                [(-56.7705927415, -0.4886051868), (-52.7416478226, -1.0962470479), (-48.6154593527, -1.3280297036)],
                knots=[4.4776851066, 4.4776851066, 4.4776851066, 4.6235650197, 4.6235650197, 4.6235650197], degree=2, weights=[1, 0.9973410605, 1]))
            Line((-48.6154593527, -1.3280297036), (-53.6777099396, 14.1968084661))
            add(Edge.make_bspline(
                [(-30.2445069715, 14.8331388677), (15.888419149, 25.2849758906), (-15.3001612609, 47.4439876299), (-46.4887416708, 69.6029993692), (-73.9040701092, 45.8525940461), (-101.3193985477, 22.102188723), (-53.6777099396, 14.1968084661)],
                knots=[1.9462507079, 1.9462507079, 1.9462507079, 3.821814465, 3.821814465, 5.697378222, 5.697378222, 7.5729419791, 7.5729419791, 7.5729419791], degree=2, weights=[1, 0.5915778346, 1, 0.5915778346, 1, 0.5915778346, 1]))
        make_face()
        with BuildLine():
            add(Edge.make_bspline(
                [(-28.8034603, -0.2319170528), (-25.2199291946, 0.378591868), (-21.7931978405, 1.2786120788)],
                knots=[4.9761933051, 4.9761933051, 4.9761933051, 5.1069561294, 5.1069561294, 5.1069561294], degree=2, weights=[1, 0.9978633968, 1]))
            Line((-28.8034603, -0.2319170528), (-28.8034603, -32.4611999094))
            Line((-28.8034603, -32.4611999094), (-48.6154593527, -32.4611999094))
            Line((-48.6154593527, -32.4611999094), (-48.6154593527, -1.3280297036))
            add(Edge.make_bspline(
                [(-56.7705927415, -0.4886051868), (-52.7416478226, -1.0962470479), (-48.6154593527, -1.3280297036)],
                knots=[4.4776851066, 4.4776851066, 4.4776851066, 4.6235650197, 4.6235650197, 4.6235650197], degree=2, weights=[1, 0.9973410605, 1]))
            Line((-56.7705927415, -0.4886051868), (-56.7705927415, -39.5372596303))
            Line((-56.7705927415, -39.5372596303), (-21.7931978405, -39.5372596303))
            Line((-21.7931978405, -39.5372596303), (-21.7931978405, 1.2786120788))
        make_face()
    extrude(amount=-F7_DEPTH)


solid = f1.part
